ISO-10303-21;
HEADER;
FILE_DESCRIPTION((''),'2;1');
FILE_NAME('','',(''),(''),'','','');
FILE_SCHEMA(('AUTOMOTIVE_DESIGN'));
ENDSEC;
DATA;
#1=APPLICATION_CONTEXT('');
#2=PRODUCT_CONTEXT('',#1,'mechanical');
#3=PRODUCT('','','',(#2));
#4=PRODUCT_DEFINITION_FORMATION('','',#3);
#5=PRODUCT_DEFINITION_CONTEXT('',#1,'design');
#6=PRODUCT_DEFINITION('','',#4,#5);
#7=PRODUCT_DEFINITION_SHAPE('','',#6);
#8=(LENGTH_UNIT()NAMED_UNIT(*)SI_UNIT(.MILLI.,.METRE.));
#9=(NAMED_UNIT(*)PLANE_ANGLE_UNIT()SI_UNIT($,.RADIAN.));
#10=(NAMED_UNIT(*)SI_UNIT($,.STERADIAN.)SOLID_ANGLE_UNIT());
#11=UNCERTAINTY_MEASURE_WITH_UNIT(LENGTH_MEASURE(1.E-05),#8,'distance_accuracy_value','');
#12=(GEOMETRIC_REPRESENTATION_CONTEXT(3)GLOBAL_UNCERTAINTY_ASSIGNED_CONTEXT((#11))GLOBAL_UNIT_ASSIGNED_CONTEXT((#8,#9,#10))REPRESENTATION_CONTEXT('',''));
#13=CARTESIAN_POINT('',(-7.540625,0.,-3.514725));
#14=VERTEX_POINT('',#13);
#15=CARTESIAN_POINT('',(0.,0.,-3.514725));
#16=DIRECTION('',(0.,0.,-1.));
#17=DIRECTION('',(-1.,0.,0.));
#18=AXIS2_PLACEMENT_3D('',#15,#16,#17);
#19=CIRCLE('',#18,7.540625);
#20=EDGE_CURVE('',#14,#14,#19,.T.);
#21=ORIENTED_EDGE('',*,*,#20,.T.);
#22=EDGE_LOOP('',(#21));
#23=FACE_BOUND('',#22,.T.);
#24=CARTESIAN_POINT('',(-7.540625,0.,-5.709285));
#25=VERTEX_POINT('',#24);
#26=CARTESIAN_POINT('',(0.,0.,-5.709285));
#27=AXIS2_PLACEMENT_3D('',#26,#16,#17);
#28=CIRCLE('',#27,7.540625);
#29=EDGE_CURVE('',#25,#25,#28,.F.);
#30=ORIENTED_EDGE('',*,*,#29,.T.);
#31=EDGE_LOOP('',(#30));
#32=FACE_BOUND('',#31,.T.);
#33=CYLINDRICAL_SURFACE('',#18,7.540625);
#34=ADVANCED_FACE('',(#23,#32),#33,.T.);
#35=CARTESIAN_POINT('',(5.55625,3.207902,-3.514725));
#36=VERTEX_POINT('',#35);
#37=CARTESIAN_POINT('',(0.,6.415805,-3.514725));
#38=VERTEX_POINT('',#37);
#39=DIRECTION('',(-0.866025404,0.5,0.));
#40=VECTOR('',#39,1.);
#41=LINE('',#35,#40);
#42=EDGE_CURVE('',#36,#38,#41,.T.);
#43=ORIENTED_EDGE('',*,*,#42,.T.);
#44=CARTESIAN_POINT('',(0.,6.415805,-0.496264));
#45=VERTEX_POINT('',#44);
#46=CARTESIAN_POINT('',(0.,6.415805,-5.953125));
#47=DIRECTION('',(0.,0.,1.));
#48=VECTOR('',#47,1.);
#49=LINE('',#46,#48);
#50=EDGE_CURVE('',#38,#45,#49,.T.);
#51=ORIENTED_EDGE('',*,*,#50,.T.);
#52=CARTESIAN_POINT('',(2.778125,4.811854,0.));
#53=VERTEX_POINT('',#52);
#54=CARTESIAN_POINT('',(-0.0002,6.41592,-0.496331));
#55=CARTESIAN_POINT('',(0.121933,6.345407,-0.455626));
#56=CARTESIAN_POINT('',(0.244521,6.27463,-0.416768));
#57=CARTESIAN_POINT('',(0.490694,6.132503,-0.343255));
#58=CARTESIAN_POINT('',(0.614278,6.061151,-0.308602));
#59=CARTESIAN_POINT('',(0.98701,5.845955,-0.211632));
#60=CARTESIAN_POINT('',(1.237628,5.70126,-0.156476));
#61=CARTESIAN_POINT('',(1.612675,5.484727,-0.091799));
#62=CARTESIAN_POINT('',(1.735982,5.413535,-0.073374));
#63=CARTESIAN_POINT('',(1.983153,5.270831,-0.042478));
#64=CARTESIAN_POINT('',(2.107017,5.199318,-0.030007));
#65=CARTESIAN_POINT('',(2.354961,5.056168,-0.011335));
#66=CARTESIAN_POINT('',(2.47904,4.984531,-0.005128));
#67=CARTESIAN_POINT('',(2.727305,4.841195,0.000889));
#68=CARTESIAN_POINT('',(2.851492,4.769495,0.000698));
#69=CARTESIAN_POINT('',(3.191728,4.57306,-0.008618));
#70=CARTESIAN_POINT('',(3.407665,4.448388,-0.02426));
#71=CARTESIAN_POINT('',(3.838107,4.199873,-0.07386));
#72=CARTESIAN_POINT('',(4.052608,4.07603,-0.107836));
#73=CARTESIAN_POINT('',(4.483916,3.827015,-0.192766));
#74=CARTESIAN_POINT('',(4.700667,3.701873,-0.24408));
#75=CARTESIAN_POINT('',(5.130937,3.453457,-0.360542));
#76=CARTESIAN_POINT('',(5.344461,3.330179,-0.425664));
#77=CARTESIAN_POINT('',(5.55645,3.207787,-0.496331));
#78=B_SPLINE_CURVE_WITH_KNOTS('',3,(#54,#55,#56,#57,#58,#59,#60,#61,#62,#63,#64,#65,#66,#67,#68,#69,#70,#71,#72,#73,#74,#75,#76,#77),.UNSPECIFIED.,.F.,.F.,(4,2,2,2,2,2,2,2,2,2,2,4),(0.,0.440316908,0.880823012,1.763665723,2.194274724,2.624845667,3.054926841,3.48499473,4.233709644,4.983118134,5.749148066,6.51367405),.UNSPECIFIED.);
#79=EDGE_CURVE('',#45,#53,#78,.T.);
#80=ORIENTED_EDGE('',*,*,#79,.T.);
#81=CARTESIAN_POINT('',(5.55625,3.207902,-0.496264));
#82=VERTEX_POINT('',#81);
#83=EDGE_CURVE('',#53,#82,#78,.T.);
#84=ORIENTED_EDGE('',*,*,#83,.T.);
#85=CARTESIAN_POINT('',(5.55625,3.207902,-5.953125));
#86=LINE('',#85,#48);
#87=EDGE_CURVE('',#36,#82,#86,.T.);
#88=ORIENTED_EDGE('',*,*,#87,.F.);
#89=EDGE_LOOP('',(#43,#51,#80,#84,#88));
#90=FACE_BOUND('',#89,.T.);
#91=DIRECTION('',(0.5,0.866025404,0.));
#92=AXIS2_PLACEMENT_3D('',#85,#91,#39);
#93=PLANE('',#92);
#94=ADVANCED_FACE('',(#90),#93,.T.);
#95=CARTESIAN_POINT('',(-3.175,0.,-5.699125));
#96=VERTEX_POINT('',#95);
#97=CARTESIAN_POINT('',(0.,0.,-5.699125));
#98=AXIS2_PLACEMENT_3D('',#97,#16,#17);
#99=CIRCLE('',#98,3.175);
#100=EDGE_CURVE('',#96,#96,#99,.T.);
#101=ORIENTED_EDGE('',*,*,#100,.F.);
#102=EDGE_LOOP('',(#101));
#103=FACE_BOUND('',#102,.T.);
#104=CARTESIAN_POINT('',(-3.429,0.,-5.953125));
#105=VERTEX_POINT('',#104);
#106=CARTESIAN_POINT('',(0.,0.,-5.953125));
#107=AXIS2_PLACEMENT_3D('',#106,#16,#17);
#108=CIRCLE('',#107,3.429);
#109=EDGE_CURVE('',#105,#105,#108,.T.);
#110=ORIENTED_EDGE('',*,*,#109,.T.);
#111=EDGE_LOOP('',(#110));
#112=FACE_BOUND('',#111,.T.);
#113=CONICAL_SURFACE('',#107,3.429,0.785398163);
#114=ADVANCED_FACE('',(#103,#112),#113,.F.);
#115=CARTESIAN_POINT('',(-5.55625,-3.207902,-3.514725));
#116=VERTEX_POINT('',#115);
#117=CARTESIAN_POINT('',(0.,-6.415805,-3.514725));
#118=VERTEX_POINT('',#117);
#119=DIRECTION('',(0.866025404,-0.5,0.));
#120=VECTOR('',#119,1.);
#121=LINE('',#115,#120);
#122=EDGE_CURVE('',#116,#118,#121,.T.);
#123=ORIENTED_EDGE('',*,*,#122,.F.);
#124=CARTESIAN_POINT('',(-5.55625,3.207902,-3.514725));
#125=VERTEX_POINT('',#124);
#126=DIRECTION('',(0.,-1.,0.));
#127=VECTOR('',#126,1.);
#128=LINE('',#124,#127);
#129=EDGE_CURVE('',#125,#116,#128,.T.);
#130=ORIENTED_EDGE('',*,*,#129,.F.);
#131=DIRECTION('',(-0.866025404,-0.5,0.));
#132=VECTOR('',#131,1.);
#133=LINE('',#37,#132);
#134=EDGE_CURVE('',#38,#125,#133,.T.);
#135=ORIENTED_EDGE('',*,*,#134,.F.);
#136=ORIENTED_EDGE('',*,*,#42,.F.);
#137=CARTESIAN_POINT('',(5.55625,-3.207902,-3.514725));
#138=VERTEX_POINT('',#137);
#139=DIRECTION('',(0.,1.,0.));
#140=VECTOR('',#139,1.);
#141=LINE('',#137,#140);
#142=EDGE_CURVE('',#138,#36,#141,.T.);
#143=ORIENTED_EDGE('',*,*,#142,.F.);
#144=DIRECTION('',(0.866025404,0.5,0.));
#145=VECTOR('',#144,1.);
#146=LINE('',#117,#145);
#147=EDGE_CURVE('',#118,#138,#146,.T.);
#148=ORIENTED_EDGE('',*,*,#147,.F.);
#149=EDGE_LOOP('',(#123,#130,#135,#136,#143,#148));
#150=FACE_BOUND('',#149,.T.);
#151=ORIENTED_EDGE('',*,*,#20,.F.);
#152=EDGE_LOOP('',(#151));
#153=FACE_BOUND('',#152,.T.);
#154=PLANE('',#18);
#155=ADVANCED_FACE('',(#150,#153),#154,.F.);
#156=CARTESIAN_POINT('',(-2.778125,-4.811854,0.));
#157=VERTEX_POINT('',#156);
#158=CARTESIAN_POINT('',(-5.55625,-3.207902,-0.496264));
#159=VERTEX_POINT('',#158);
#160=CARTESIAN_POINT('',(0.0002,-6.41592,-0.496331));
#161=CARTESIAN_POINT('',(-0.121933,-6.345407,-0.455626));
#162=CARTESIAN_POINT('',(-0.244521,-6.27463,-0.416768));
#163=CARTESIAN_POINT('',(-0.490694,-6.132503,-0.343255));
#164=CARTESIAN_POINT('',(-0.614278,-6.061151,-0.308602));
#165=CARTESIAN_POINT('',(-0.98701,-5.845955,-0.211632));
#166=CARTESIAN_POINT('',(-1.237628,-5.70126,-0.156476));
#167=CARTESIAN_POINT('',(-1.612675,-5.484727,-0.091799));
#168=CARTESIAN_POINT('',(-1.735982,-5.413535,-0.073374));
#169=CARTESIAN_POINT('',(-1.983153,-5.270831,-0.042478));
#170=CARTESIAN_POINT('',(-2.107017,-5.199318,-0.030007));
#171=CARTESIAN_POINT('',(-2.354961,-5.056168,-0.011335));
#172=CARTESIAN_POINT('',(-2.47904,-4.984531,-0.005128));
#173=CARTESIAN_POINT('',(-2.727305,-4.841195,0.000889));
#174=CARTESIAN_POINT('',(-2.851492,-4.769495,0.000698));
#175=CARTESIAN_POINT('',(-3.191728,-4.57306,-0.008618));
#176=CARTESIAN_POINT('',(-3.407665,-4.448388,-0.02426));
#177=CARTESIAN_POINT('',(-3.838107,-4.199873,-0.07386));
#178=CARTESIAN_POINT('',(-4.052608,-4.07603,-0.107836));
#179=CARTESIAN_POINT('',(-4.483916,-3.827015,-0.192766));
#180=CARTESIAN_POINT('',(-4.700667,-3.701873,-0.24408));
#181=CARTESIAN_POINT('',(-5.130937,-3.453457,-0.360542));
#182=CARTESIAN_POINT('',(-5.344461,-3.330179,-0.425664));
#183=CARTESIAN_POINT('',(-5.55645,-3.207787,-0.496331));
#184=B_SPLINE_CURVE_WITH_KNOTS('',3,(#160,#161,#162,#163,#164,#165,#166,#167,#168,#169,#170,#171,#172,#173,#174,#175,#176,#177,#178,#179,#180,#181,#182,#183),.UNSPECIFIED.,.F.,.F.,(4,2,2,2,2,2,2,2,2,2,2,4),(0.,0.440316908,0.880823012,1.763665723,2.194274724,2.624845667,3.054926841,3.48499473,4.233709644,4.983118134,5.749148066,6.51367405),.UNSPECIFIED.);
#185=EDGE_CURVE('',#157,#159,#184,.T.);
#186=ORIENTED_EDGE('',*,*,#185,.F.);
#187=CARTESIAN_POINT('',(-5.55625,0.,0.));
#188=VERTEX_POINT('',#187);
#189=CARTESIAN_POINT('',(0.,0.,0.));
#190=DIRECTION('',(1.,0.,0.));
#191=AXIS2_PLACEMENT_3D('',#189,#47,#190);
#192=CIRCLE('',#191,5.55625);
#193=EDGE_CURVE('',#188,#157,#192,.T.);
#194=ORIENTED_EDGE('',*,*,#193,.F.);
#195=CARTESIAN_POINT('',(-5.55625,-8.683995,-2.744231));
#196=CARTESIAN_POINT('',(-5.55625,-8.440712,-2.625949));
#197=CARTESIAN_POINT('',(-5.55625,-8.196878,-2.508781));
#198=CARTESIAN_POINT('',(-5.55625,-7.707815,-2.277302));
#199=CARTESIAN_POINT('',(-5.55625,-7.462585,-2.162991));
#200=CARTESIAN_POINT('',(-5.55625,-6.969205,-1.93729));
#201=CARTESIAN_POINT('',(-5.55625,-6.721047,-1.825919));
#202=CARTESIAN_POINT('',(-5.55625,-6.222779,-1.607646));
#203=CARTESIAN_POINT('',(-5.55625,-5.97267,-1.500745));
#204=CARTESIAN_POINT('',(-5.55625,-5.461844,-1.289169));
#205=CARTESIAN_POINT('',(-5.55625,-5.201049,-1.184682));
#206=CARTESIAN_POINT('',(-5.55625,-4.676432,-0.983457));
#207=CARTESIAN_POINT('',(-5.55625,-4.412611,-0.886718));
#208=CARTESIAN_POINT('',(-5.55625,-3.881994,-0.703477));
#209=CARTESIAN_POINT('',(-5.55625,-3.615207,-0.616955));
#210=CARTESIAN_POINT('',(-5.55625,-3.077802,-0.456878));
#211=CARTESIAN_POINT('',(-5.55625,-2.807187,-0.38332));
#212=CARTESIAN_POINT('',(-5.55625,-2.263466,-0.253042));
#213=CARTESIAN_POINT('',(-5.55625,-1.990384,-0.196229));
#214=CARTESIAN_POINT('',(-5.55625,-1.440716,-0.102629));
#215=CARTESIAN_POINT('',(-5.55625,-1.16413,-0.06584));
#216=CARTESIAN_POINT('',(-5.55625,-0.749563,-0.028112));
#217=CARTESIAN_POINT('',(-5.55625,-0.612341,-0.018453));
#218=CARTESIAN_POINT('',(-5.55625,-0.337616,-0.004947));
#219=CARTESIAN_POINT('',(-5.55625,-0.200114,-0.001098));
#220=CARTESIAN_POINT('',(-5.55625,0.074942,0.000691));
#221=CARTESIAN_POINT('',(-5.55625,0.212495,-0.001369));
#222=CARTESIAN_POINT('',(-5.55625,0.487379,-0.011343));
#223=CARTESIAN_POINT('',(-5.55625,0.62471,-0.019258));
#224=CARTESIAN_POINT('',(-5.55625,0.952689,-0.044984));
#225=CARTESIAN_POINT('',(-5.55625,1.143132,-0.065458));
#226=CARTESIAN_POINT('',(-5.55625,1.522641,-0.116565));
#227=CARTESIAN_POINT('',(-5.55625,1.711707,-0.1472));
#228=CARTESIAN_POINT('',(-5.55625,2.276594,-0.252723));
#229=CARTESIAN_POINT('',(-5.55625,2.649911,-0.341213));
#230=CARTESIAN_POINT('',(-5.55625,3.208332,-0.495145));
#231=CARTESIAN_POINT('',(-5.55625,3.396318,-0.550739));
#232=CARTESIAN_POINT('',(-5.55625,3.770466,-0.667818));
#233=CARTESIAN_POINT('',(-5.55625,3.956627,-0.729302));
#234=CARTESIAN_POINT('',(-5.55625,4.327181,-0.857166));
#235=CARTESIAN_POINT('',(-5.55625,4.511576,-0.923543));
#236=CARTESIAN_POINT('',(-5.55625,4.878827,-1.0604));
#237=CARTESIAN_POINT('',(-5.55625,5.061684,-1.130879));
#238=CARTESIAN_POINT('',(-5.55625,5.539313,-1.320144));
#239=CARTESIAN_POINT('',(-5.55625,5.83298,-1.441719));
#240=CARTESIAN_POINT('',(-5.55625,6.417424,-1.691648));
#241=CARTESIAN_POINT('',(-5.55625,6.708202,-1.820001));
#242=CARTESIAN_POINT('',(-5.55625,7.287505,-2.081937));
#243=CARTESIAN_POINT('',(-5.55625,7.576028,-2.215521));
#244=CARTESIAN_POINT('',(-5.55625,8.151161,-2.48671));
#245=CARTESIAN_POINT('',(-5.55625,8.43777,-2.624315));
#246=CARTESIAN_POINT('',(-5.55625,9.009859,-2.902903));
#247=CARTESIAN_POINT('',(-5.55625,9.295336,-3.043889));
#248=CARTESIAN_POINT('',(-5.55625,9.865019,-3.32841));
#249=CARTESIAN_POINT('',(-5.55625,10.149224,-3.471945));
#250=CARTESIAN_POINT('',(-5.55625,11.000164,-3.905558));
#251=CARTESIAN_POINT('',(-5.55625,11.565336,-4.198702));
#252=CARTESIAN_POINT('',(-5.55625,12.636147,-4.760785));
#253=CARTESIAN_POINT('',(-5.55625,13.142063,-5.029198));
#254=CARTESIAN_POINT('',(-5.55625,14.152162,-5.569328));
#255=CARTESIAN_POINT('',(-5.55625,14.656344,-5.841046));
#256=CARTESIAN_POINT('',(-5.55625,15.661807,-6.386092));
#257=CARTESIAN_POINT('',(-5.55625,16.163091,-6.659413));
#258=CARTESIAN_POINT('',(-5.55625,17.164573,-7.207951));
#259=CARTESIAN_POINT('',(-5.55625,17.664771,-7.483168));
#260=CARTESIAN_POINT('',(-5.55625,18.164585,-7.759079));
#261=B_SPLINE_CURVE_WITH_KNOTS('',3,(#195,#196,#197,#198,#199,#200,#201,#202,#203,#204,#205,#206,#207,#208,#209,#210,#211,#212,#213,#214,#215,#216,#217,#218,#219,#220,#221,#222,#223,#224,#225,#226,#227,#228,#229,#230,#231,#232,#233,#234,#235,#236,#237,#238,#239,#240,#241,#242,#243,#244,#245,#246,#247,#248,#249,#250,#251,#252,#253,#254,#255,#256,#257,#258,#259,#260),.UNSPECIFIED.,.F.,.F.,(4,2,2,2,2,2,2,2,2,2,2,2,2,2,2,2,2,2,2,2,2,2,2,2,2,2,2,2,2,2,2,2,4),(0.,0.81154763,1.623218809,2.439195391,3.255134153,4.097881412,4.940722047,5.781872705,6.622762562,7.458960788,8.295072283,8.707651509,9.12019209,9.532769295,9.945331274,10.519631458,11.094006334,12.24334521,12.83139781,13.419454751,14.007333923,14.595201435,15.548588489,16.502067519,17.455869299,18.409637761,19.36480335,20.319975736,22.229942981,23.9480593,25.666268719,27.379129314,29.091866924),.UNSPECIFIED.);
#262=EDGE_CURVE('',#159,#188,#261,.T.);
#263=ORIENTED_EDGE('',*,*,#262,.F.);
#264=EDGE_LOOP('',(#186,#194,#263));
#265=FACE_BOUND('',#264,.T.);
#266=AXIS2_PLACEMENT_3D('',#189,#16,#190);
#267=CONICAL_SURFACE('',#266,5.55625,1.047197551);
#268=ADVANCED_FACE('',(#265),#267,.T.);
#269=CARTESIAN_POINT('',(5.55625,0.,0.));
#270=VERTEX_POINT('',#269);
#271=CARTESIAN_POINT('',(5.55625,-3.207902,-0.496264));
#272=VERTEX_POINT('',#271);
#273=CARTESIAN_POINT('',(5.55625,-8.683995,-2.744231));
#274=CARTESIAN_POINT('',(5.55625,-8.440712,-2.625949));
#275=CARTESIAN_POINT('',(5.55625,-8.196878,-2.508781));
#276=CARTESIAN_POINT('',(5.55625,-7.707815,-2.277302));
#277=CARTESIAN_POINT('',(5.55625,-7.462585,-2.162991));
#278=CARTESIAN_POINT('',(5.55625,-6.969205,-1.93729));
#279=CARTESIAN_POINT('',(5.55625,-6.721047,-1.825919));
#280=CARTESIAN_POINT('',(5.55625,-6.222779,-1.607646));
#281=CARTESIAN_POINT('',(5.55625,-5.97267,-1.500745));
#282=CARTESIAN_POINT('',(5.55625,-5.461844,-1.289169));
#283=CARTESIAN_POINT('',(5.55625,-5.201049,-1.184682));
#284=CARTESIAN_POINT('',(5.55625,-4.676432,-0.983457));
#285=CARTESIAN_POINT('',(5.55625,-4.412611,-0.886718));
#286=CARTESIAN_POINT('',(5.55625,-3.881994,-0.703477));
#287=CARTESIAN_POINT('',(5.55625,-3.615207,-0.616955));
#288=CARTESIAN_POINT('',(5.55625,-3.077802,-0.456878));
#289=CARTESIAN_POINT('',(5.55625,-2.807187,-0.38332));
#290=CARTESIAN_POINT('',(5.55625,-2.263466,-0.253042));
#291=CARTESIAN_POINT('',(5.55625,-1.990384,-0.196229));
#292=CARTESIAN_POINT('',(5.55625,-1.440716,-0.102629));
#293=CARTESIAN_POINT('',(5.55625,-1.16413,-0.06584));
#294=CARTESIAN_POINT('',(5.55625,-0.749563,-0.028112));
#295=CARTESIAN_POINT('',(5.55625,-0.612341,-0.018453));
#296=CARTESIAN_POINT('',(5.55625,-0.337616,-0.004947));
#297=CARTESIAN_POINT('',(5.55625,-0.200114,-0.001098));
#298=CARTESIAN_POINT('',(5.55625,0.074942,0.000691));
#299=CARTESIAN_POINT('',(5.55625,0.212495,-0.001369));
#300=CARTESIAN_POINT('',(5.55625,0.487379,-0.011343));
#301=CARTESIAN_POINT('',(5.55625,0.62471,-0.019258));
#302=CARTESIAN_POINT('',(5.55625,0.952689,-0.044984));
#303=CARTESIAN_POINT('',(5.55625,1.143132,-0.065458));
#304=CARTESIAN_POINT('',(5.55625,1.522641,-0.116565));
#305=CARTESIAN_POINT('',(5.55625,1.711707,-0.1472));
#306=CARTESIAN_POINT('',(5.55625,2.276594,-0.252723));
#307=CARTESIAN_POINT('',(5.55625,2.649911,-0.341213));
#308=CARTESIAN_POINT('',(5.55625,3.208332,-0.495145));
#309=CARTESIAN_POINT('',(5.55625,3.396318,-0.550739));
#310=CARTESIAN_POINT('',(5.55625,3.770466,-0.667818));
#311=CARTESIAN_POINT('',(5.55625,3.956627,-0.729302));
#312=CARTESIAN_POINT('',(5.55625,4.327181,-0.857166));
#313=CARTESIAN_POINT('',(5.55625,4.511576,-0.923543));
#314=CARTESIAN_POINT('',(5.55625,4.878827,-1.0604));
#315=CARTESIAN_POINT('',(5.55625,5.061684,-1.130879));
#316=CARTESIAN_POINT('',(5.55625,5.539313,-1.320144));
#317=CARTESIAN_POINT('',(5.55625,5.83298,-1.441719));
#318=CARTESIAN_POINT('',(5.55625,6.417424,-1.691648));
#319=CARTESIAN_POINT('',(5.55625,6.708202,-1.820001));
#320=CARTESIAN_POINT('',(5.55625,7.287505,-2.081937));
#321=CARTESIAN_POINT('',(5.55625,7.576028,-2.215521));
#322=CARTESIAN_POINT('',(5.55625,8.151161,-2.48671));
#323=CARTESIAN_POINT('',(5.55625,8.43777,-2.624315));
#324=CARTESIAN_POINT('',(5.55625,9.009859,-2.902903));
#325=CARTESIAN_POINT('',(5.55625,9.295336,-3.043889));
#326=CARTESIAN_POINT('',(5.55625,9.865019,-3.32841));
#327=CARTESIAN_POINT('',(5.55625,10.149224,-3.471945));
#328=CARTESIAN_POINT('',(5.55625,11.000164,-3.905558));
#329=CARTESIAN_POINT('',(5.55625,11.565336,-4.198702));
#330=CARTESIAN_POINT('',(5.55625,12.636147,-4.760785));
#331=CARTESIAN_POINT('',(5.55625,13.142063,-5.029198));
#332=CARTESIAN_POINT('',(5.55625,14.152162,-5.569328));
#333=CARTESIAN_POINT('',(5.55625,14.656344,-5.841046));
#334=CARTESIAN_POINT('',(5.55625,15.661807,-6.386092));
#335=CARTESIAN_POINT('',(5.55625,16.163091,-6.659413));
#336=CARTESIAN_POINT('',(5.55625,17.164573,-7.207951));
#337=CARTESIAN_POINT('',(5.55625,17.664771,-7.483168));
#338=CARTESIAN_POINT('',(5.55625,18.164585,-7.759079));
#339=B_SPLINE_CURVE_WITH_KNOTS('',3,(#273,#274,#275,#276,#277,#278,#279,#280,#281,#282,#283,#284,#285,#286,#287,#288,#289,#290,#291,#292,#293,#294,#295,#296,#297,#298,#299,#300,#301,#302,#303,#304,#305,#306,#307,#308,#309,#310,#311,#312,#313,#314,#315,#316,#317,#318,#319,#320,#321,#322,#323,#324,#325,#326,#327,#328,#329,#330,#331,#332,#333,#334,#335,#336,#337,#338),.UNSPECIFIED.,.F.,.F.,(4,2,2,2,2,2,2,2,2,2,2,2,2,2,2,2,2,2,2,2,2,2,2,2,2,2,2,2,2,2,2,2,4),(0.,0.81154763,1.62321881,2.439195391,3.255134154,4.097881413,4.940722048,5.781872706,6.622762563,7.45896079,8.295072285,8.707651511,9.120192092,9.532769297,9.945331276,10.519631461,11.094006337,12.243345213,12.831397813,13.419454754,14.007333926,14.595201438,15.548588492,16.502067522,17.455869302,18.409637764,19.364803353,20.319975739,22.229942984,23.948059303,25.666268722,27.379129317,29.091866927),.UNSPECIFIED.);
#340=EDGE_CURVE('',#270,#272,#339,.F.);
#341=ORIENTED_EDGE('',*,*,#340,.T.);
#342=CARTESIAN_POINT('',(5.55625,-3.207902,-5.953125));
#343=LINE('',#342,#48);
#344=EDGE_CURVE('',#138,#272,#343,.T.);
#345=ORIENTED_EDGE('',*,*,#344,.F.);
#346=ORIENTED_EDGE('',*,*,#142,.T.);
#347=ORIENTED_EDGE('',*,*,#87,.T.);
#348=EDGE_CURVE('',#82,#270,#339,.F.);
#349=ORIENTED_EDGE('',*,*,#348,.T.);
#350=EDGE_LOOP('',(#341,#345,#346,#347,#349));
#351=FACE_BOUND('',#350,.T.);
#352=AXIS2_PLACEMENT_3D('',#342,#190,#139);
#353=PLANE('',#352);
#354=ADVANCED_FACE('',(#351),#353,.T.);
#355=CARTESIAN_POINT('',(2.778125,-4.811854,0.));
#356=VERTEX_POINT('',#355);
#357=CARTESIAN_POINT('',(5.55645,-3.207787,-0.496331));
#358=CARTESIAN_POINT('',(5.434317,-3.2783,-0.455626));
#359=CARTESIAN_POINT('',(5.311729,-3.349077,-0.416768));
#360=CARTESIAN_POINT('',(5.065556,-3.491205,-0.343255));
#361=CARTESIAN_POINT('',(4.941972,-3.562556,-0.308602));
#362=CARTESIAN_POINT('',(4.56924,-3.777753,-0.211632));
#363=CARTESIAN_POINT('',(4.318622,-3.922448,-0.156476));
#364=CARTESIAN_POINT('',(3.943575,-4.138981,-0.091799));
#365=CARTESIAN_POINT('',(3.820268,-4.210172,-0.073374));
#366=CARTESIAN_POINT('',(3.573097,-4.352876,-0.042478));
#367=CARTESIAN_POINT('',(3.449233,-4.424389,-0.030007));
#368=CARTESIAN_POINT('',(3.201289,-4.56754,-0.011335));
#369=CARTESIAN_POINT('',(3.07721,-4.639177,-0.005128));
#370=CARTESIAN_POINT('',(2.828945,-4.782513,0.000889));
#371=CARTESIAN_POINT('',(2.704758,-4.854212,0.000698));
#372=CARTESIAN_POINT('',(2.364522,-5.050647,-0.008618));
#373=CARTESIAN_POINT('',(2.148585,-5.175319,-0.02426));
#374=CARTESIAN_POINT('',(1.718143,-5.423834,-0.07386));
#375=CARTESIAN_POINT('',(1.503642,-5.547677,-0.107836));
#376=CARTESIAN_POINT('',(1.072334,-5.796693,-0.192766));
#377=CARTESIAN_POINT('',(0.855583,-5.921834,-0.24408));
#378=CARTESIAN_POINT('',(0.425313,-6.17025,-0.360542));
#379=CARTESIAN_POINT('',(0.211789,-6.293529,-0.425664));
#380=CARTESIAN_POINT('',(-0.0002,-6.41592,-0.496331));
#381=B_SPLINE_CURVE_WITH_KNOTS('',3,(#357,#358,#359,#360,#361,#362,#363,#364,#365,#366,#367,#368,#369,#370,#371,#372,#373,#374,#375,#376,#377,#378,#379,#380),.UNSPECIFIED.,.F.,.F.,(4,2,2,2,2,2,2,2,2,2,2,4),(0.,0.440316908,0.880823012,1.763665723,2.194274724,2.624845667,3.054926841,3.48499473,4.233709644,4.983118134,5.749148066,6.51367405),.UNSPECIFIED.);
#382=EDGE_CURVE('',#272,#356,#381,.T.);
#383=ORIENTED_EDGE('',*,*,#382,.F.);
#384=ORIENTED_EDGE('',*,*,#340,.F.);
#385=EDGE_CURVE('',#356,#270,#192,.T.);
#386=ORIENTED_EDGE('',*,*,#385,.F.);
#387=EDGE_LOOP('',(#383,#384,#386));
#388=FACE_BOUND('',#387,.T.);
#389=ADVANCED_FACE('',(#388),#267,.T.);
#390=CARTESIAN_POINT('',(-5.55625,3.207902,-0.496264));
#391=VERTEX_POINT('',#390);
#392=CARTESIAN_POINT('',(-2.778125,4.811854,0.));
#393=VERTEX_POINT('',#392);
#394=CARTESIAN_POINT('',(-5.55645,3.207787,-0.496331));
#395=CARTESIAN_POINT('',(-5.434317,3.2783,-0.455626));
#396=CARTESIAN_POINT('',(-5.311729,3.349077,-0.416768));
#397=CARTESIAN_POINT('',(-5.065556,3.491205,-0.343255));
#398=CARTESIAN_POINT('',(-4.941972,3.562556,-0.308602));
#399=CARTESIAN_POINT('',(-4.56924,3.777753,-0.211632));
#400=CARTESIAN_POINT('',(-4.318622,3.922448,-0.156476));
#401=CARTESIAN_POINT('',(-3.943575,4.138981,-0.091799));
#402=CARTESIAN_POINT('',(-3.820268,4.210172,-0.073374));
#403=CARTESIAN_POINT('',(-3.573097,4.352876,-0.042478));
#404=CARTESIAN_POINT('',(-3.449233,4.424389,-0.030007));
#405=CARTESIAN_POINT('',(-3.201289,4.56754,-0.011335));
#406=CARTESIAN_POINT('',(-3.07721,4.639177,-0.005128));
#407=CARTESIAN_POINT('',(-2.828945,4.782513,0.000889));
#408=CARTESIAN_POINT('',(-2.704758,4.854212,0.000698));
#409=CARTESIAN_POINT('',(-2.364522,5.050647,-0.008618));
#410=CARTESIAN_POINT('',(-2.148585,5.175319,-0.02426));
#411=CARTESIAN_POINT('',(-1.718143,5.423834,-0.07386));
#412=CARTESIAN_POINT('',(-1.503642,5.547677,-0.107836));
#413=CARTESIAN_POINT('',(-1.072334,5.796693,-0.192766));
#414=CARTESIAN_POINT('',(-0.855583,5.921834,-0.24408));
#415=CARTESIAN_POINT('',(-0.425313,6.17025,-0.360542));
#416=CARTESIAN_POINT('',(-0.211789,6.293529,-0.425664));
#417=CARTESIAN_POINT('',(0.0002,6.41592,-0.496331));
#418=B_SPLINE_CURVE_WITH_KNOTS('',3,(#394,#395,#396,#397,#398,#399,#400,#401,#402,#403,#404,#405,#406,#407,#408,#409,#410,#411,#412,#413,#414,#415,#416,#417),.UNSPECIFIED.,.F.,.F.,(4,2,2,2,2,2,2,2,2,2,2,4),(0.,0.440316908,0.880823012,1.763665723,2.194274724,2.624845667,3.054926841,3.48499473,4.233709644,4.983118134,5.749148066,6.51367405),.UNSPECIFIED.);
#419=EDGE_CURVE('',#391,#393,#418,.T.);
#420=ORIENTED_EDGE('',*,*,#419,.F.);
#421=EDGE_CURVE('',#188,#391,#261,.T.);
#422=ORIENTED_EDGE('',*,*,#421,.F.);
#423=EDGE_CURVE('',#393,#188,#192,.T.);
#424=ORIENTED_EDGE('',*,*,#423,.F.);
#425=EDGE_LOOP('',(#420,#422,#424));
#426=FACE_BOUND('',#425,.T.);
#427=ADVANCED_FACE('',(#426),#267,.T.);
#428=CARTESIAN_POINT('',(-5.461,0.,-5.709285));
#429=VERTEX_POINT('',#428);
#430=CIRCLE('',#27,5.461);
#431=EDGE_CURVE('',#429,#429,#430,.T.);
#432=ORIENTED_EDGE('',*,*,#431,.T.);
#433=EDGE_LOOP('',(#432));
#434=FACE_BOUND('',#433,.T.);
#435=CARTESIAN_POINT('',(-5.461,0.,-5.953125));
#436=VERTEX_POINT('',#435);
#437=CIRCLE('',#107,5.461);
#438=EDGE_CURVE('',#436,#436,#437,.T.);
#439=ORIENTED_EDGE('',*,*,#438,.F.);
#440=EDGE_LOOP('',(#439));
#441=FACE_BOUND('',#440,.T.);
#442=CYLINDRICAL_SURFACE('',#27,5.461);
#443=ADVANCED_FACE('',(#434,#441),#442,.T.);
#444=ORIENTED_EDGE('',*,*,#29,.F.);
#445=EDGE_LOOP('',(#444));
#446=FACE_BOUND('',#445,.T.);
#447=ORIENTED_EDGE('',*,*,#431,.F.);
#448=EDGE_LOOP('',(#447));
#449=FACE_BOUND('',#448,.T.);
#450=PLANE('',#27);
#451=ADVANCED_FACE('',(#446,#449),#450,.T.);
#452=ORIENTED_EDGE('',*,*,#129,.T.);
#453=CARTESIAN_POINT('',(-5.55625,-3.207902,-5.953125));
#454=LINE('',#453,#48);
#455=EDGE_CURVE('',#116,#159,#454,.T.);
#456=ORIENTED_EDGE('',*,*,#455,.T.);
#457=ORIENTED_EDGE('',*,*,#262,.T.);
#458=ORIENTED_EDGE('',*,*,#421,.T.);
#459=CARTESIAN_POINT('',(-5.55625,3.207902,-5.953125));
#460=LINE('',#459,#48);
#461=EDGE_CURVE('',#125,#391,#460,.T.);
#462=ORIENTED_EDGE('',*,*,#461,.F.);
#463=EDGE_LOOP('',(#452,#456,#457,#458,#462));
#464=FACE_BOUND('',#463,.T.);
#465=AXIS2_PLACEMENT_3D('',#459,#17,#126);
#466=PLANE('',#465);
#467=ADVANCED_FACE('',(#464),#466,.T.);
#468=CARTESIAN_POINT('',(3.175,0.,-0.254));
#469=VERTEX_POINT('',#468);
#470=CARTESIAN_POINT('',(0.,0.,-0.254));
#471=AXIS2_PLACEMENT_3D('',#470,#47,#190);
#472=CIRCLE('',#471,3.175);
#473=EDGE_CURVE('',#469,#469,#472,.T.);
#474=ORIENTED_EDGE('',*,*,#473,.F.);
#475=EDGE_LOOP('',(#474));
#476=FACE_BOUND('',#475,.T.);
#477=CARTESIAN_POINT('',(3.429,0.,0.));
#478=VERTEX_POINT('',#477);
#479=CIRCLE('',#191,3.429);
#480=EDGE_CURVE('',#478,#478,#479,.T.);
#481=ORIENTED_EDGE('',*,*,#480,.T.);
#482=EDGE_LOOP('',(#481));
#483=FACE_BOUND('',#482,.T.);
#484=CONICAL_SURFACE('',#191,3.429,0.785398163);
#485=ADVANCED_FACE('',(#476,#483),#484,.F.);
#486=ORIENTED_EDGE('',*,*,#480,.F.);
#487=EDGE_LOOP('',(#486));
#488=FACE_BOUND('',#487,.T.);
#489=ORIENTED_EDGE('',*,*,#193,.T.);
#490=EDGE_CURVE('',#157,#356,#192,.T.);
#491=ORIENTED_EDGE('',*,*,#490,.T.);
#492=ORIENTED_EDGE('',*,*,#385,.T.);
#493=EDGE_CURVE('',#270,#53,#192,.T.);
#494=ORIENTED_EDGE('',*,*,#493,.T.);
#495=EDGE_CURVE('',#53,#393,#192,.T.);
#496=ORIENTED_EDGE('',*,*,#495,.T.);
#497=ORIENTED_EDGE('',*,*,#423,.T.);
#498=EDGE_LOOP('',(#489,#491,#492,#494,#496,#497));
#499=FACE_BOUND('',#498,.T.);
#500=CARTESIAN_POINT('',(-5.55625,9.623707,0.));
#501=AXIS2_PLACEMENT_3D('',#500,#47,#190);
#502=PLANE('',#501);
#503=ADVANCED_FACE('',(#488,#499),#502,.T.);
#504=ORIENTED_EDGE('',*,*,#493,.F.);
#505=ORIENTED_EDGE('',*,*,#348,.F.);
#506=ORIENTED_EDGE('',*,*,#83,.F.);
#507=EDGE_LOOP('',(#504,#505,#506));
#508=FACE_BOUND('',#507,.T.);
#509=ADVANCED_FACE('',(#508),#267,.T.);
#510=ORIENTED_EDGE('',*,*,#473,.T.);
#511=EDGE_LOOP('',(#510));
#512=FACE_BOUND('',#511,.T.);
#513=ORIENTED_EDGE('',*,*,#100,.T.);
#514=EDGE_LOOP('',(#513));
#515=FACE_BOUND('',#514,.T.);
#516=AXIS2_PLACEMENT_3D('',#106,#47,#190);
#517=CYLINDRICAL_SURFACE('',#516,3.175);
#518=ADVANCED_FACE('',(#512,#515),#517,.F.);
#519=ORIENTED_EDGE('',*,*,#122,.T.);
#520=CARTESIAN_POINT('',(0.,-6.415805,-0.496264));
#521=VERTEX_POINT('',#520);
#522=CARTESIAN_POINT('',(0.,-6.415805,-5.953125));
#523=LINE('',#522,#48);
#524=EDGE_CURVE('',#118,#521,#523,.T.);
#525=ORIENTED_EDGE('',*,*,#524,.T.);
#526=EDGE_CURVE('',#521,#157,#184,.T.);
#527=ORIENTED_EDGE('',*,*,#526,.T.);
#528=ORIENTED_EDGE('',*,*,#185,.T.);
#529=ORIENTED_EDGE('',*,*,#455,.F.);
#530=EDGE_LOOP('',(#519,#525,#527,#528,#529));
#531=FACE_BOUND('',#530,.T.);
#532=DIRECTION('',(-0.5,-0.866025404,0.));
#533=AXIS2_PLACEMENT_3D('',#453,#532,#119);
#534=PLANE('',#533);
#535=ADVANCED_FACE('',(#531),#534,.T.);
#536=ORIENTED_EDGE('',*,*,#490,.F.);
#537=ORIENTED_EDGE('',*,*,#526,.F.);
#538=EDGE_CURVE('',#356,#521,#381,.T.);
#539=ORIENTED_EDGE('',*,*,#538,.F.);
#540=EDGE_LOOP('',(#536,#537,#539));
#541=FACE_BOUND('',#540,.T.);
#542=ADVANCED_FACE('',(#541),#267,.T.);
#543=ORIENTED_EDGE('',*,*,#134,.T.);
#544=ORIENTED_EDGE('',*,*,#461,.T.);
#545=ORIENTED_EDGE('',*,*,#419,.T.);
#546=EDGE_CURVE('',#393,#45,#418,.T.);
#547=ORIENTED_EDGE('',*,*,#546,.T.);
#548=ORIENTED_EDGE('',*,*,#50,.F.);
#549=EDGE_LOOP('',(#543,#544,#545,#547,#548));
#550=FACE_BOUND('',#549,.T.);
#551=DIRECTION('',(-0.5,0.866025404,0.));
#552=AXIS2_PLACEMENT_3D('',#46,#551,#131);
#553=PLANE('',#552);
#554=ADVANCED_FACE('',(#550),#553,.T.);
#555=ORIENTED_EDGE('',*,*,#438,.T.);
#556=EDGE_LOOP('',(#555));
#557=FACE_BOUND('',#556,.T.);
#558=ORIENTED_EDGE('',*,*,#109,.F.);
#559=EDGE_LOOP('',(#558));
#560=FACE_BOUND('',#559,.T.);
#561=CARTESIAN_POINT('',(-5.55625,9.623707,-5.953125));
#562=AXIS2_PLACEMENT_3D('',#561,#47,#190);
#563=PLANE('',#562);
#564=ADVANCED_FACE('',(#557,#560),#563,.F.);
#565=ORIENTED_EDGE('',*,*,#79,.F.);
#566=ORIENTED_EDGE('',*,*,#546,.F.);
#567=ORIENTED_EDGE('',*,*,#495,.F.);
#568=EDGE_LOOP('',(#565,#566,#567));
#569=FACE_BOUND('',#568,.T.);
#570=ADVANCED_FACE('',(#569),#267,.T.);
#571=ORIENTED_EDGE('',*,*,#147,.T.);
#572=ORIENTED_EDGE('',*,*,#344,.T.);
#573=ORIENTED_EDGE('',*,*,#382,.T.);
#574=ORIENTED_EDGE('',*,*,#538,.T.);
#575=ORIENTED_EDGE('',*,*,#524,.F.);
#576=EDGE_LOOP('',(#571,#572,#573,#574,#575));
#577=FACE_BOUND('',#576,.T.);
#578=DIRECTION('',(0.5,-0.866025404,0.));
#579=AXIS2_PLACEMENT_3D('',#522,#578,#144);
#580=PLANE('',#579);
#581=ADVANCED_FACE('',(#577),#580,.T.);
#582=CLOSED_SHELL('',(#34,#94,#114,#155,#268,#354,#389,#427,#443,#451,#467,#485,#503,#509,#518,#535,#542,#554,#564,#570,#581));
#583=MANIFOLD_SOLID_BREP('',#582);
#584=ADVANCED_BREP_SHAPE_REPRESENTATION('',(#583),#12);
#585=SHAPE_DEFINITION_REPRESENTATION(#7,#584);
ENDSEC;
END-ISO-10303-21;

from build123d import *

# Parameters (mm, degrees)
EXTRUDE1_DEPTH         = 5.953125
SKETCH13_R             = 7.540625
EXTRUDE3_DEPTH         = 2.4384
SKETCH2_OUTSIDE_W      = 67.282
SKETCH2_OUTSIDE_H      = 67.282
SKETCH2_OUTSIDE_R      = 5.55625
CUT_EXTRUDE1_DEPTH     = 13.213179277
CUT_EXTRUDE1_DRAFT     = -60
SKETCH4_R              = 3.175
CUT_EXTRUDE3_DEPTH     = 13.213179277
CUT_SWEEP1_PITCH       = 1.27
CUT_SWEEP1_HEIGHT      = 7.223125
CUT_SWEEP1_RADIUS      = 3.175
CUT_SWEEP1_START_ANGLE = 90
SKETCH14_OUTSIDE_W     = 21.51
SKETCH14_OUTSIDE_H     = 21.51
SKETCH14_OUTSIDE_R     = 5.461
CUT_EXTRUDE8_DEPTH     = 0.24384


with BuildPart() as part:
    # Sketch1 → Extrude1 (new body)
    with BuildSketch(Plane.XY):
        Polygon((0, 6.415804866), (-5.55625, 3.207902433), (-5.55625, -3.207902433), (0, -6.415804866), (5.55625, -3.207902433), (5.55625, 3.207902433), align=None)
    extrude(amount=-EXTRUDE1_DEPTH)

    # Sketch13 → Extrude3 (add)
    with BuildSketch(Plane(origin=(0, 0, -5.953125), x_dir=(-1, 0, 0), z_dir=(0, 0, -1))):
        Circle(SKETCH13_R)
    extrude(amount=-EXTRUDE3_DEPTH)


with BuildPart() as cut_extrude1_tool:
    # Sketch2 outside → Cut-Extrude1 (with draft: the straight prism first)
    with BuildSketch(Plane.XY):
        Rectangle(SKETCH2_OUTSIDE_W, SKETCH2_OUTSIDE_H)
        Circle(SKETCH2_OUTSIDE_R, mode=Mode.SUBTRACT)
    extrude(amount=-CUT_EXTRUDE1_DEPTH)
    # Cut-Extrude1: the draft: its side faces are tilted about the plane it starts from
    cut_extrude1_sides = [cut_extrude1_tool.faces().sort_by_distance(p)[0] for p in [
        (0, -33.641, -6.606589638),
        (33.641, 0, -6.606589638),
        (0, 33.641, -6.606589638),
        (-33.641, 0, -6.606589638),
        (-5.55625, 0, -6.606589638),
    ]]
    draft(cut_extrude1_sides, Plane.XY, CUT_EXTRUDE1_DRAFT)


with BuildPart() as part_1:
    add(part.part)

    # Cut-Extrude1: cut by cut_extrude1_tool
    add(cut_extrude1_tool.part, mode=Mode.SUBTRACT)

    # Sketch4 → Cut-Extrude3 (cut, through all)
    with BuildSketch(Plane.XY):
        Circle(SKETCH4_R)
    extrude(amount=-CUT_EXTRUDE3_DEPTH, mode=Mode.SUBTRACT)

    # Cut-Sweep1: sweep along a helix
    with BuildLine() as cut_sweep1_path:
        add(Helix(CUT_SWEEP1_PITCH, CUT_SWEEP1_HEIGHT, CUT_SWEEP1_RADIUS, center=(0, 0, 0), direction=(0, 0, -1), mode=Mode.PRIVATE).rotate(Axis((0, 0, 0), (0, 0, -1)), CUT_SWEEP1_START_ANGLE))
    # Sketch9 → Cut-Sweep1 (sweep, cut)
    with BuildSketch(Plane(origin=(0, 0, 0), x_dir=(0, 0, -1), z_dir=(1, 0, 0))):
        Polygon((-0.635, 3.175), (-0.47625, 3.175), (0, 2.350110803), (-1.11125, 2.350110803), align=None)
    sweep(path=cut_sweep1_path.line, is_frenet=True, mode=Mode.SUBTRACT)

    # Cut-Extrude6 cone 1 section (through the dimple's axis) → Cut-Extrude6 (revolve, cut)
    with BuildSketch(Plane(origin=(0, 0, 0), x_dir=(0, -1, 0), z_dir=(1, 0, 0))):
        Polygon((0, 0), (3.429, 0), (0, 3.429), align=None)
    revolve(axis=Axis((0, 0, 0), (0, 0, -1)), mode=Mode.SUBTRACT)

    # Cut-Extrude7 cone 1 section (through the dimple's axis) → Cut-Extrude7 (revolve, cut)
    with BuildSketch(Plane(origin=(0, 0, -5.953125), x_dir=(0, 1, 0), z_dir=(1, 0, 0))):
        Polygon((0, 0), (3.429, 0), (0, 3.429), align=None)
    revolve(axis=Axis((0, 0, -5.953125), (0, 0, 1)), mode=Mode.SUBTRACT)

    # Sketch14 outside → Cut-Extrude8 (cut)
    with BuildSketch(Plane(origin=(0, 0, -5.953125), x_dir=(-1, 0, 0), z_dir=(0, 0, -1))):
        Rectangle(SKETCH14_OUTSIDE_W, SKETCH14_OUTSIDE_H)
        Circle(SKETCH14_OUTSIDE_R, mode=Mode.SUBTRACT)
    extrude(amount=-CUT_EXTRUDE8_DEPTH, mode=Mode.SUBTRACT)


solid = part_1.part
